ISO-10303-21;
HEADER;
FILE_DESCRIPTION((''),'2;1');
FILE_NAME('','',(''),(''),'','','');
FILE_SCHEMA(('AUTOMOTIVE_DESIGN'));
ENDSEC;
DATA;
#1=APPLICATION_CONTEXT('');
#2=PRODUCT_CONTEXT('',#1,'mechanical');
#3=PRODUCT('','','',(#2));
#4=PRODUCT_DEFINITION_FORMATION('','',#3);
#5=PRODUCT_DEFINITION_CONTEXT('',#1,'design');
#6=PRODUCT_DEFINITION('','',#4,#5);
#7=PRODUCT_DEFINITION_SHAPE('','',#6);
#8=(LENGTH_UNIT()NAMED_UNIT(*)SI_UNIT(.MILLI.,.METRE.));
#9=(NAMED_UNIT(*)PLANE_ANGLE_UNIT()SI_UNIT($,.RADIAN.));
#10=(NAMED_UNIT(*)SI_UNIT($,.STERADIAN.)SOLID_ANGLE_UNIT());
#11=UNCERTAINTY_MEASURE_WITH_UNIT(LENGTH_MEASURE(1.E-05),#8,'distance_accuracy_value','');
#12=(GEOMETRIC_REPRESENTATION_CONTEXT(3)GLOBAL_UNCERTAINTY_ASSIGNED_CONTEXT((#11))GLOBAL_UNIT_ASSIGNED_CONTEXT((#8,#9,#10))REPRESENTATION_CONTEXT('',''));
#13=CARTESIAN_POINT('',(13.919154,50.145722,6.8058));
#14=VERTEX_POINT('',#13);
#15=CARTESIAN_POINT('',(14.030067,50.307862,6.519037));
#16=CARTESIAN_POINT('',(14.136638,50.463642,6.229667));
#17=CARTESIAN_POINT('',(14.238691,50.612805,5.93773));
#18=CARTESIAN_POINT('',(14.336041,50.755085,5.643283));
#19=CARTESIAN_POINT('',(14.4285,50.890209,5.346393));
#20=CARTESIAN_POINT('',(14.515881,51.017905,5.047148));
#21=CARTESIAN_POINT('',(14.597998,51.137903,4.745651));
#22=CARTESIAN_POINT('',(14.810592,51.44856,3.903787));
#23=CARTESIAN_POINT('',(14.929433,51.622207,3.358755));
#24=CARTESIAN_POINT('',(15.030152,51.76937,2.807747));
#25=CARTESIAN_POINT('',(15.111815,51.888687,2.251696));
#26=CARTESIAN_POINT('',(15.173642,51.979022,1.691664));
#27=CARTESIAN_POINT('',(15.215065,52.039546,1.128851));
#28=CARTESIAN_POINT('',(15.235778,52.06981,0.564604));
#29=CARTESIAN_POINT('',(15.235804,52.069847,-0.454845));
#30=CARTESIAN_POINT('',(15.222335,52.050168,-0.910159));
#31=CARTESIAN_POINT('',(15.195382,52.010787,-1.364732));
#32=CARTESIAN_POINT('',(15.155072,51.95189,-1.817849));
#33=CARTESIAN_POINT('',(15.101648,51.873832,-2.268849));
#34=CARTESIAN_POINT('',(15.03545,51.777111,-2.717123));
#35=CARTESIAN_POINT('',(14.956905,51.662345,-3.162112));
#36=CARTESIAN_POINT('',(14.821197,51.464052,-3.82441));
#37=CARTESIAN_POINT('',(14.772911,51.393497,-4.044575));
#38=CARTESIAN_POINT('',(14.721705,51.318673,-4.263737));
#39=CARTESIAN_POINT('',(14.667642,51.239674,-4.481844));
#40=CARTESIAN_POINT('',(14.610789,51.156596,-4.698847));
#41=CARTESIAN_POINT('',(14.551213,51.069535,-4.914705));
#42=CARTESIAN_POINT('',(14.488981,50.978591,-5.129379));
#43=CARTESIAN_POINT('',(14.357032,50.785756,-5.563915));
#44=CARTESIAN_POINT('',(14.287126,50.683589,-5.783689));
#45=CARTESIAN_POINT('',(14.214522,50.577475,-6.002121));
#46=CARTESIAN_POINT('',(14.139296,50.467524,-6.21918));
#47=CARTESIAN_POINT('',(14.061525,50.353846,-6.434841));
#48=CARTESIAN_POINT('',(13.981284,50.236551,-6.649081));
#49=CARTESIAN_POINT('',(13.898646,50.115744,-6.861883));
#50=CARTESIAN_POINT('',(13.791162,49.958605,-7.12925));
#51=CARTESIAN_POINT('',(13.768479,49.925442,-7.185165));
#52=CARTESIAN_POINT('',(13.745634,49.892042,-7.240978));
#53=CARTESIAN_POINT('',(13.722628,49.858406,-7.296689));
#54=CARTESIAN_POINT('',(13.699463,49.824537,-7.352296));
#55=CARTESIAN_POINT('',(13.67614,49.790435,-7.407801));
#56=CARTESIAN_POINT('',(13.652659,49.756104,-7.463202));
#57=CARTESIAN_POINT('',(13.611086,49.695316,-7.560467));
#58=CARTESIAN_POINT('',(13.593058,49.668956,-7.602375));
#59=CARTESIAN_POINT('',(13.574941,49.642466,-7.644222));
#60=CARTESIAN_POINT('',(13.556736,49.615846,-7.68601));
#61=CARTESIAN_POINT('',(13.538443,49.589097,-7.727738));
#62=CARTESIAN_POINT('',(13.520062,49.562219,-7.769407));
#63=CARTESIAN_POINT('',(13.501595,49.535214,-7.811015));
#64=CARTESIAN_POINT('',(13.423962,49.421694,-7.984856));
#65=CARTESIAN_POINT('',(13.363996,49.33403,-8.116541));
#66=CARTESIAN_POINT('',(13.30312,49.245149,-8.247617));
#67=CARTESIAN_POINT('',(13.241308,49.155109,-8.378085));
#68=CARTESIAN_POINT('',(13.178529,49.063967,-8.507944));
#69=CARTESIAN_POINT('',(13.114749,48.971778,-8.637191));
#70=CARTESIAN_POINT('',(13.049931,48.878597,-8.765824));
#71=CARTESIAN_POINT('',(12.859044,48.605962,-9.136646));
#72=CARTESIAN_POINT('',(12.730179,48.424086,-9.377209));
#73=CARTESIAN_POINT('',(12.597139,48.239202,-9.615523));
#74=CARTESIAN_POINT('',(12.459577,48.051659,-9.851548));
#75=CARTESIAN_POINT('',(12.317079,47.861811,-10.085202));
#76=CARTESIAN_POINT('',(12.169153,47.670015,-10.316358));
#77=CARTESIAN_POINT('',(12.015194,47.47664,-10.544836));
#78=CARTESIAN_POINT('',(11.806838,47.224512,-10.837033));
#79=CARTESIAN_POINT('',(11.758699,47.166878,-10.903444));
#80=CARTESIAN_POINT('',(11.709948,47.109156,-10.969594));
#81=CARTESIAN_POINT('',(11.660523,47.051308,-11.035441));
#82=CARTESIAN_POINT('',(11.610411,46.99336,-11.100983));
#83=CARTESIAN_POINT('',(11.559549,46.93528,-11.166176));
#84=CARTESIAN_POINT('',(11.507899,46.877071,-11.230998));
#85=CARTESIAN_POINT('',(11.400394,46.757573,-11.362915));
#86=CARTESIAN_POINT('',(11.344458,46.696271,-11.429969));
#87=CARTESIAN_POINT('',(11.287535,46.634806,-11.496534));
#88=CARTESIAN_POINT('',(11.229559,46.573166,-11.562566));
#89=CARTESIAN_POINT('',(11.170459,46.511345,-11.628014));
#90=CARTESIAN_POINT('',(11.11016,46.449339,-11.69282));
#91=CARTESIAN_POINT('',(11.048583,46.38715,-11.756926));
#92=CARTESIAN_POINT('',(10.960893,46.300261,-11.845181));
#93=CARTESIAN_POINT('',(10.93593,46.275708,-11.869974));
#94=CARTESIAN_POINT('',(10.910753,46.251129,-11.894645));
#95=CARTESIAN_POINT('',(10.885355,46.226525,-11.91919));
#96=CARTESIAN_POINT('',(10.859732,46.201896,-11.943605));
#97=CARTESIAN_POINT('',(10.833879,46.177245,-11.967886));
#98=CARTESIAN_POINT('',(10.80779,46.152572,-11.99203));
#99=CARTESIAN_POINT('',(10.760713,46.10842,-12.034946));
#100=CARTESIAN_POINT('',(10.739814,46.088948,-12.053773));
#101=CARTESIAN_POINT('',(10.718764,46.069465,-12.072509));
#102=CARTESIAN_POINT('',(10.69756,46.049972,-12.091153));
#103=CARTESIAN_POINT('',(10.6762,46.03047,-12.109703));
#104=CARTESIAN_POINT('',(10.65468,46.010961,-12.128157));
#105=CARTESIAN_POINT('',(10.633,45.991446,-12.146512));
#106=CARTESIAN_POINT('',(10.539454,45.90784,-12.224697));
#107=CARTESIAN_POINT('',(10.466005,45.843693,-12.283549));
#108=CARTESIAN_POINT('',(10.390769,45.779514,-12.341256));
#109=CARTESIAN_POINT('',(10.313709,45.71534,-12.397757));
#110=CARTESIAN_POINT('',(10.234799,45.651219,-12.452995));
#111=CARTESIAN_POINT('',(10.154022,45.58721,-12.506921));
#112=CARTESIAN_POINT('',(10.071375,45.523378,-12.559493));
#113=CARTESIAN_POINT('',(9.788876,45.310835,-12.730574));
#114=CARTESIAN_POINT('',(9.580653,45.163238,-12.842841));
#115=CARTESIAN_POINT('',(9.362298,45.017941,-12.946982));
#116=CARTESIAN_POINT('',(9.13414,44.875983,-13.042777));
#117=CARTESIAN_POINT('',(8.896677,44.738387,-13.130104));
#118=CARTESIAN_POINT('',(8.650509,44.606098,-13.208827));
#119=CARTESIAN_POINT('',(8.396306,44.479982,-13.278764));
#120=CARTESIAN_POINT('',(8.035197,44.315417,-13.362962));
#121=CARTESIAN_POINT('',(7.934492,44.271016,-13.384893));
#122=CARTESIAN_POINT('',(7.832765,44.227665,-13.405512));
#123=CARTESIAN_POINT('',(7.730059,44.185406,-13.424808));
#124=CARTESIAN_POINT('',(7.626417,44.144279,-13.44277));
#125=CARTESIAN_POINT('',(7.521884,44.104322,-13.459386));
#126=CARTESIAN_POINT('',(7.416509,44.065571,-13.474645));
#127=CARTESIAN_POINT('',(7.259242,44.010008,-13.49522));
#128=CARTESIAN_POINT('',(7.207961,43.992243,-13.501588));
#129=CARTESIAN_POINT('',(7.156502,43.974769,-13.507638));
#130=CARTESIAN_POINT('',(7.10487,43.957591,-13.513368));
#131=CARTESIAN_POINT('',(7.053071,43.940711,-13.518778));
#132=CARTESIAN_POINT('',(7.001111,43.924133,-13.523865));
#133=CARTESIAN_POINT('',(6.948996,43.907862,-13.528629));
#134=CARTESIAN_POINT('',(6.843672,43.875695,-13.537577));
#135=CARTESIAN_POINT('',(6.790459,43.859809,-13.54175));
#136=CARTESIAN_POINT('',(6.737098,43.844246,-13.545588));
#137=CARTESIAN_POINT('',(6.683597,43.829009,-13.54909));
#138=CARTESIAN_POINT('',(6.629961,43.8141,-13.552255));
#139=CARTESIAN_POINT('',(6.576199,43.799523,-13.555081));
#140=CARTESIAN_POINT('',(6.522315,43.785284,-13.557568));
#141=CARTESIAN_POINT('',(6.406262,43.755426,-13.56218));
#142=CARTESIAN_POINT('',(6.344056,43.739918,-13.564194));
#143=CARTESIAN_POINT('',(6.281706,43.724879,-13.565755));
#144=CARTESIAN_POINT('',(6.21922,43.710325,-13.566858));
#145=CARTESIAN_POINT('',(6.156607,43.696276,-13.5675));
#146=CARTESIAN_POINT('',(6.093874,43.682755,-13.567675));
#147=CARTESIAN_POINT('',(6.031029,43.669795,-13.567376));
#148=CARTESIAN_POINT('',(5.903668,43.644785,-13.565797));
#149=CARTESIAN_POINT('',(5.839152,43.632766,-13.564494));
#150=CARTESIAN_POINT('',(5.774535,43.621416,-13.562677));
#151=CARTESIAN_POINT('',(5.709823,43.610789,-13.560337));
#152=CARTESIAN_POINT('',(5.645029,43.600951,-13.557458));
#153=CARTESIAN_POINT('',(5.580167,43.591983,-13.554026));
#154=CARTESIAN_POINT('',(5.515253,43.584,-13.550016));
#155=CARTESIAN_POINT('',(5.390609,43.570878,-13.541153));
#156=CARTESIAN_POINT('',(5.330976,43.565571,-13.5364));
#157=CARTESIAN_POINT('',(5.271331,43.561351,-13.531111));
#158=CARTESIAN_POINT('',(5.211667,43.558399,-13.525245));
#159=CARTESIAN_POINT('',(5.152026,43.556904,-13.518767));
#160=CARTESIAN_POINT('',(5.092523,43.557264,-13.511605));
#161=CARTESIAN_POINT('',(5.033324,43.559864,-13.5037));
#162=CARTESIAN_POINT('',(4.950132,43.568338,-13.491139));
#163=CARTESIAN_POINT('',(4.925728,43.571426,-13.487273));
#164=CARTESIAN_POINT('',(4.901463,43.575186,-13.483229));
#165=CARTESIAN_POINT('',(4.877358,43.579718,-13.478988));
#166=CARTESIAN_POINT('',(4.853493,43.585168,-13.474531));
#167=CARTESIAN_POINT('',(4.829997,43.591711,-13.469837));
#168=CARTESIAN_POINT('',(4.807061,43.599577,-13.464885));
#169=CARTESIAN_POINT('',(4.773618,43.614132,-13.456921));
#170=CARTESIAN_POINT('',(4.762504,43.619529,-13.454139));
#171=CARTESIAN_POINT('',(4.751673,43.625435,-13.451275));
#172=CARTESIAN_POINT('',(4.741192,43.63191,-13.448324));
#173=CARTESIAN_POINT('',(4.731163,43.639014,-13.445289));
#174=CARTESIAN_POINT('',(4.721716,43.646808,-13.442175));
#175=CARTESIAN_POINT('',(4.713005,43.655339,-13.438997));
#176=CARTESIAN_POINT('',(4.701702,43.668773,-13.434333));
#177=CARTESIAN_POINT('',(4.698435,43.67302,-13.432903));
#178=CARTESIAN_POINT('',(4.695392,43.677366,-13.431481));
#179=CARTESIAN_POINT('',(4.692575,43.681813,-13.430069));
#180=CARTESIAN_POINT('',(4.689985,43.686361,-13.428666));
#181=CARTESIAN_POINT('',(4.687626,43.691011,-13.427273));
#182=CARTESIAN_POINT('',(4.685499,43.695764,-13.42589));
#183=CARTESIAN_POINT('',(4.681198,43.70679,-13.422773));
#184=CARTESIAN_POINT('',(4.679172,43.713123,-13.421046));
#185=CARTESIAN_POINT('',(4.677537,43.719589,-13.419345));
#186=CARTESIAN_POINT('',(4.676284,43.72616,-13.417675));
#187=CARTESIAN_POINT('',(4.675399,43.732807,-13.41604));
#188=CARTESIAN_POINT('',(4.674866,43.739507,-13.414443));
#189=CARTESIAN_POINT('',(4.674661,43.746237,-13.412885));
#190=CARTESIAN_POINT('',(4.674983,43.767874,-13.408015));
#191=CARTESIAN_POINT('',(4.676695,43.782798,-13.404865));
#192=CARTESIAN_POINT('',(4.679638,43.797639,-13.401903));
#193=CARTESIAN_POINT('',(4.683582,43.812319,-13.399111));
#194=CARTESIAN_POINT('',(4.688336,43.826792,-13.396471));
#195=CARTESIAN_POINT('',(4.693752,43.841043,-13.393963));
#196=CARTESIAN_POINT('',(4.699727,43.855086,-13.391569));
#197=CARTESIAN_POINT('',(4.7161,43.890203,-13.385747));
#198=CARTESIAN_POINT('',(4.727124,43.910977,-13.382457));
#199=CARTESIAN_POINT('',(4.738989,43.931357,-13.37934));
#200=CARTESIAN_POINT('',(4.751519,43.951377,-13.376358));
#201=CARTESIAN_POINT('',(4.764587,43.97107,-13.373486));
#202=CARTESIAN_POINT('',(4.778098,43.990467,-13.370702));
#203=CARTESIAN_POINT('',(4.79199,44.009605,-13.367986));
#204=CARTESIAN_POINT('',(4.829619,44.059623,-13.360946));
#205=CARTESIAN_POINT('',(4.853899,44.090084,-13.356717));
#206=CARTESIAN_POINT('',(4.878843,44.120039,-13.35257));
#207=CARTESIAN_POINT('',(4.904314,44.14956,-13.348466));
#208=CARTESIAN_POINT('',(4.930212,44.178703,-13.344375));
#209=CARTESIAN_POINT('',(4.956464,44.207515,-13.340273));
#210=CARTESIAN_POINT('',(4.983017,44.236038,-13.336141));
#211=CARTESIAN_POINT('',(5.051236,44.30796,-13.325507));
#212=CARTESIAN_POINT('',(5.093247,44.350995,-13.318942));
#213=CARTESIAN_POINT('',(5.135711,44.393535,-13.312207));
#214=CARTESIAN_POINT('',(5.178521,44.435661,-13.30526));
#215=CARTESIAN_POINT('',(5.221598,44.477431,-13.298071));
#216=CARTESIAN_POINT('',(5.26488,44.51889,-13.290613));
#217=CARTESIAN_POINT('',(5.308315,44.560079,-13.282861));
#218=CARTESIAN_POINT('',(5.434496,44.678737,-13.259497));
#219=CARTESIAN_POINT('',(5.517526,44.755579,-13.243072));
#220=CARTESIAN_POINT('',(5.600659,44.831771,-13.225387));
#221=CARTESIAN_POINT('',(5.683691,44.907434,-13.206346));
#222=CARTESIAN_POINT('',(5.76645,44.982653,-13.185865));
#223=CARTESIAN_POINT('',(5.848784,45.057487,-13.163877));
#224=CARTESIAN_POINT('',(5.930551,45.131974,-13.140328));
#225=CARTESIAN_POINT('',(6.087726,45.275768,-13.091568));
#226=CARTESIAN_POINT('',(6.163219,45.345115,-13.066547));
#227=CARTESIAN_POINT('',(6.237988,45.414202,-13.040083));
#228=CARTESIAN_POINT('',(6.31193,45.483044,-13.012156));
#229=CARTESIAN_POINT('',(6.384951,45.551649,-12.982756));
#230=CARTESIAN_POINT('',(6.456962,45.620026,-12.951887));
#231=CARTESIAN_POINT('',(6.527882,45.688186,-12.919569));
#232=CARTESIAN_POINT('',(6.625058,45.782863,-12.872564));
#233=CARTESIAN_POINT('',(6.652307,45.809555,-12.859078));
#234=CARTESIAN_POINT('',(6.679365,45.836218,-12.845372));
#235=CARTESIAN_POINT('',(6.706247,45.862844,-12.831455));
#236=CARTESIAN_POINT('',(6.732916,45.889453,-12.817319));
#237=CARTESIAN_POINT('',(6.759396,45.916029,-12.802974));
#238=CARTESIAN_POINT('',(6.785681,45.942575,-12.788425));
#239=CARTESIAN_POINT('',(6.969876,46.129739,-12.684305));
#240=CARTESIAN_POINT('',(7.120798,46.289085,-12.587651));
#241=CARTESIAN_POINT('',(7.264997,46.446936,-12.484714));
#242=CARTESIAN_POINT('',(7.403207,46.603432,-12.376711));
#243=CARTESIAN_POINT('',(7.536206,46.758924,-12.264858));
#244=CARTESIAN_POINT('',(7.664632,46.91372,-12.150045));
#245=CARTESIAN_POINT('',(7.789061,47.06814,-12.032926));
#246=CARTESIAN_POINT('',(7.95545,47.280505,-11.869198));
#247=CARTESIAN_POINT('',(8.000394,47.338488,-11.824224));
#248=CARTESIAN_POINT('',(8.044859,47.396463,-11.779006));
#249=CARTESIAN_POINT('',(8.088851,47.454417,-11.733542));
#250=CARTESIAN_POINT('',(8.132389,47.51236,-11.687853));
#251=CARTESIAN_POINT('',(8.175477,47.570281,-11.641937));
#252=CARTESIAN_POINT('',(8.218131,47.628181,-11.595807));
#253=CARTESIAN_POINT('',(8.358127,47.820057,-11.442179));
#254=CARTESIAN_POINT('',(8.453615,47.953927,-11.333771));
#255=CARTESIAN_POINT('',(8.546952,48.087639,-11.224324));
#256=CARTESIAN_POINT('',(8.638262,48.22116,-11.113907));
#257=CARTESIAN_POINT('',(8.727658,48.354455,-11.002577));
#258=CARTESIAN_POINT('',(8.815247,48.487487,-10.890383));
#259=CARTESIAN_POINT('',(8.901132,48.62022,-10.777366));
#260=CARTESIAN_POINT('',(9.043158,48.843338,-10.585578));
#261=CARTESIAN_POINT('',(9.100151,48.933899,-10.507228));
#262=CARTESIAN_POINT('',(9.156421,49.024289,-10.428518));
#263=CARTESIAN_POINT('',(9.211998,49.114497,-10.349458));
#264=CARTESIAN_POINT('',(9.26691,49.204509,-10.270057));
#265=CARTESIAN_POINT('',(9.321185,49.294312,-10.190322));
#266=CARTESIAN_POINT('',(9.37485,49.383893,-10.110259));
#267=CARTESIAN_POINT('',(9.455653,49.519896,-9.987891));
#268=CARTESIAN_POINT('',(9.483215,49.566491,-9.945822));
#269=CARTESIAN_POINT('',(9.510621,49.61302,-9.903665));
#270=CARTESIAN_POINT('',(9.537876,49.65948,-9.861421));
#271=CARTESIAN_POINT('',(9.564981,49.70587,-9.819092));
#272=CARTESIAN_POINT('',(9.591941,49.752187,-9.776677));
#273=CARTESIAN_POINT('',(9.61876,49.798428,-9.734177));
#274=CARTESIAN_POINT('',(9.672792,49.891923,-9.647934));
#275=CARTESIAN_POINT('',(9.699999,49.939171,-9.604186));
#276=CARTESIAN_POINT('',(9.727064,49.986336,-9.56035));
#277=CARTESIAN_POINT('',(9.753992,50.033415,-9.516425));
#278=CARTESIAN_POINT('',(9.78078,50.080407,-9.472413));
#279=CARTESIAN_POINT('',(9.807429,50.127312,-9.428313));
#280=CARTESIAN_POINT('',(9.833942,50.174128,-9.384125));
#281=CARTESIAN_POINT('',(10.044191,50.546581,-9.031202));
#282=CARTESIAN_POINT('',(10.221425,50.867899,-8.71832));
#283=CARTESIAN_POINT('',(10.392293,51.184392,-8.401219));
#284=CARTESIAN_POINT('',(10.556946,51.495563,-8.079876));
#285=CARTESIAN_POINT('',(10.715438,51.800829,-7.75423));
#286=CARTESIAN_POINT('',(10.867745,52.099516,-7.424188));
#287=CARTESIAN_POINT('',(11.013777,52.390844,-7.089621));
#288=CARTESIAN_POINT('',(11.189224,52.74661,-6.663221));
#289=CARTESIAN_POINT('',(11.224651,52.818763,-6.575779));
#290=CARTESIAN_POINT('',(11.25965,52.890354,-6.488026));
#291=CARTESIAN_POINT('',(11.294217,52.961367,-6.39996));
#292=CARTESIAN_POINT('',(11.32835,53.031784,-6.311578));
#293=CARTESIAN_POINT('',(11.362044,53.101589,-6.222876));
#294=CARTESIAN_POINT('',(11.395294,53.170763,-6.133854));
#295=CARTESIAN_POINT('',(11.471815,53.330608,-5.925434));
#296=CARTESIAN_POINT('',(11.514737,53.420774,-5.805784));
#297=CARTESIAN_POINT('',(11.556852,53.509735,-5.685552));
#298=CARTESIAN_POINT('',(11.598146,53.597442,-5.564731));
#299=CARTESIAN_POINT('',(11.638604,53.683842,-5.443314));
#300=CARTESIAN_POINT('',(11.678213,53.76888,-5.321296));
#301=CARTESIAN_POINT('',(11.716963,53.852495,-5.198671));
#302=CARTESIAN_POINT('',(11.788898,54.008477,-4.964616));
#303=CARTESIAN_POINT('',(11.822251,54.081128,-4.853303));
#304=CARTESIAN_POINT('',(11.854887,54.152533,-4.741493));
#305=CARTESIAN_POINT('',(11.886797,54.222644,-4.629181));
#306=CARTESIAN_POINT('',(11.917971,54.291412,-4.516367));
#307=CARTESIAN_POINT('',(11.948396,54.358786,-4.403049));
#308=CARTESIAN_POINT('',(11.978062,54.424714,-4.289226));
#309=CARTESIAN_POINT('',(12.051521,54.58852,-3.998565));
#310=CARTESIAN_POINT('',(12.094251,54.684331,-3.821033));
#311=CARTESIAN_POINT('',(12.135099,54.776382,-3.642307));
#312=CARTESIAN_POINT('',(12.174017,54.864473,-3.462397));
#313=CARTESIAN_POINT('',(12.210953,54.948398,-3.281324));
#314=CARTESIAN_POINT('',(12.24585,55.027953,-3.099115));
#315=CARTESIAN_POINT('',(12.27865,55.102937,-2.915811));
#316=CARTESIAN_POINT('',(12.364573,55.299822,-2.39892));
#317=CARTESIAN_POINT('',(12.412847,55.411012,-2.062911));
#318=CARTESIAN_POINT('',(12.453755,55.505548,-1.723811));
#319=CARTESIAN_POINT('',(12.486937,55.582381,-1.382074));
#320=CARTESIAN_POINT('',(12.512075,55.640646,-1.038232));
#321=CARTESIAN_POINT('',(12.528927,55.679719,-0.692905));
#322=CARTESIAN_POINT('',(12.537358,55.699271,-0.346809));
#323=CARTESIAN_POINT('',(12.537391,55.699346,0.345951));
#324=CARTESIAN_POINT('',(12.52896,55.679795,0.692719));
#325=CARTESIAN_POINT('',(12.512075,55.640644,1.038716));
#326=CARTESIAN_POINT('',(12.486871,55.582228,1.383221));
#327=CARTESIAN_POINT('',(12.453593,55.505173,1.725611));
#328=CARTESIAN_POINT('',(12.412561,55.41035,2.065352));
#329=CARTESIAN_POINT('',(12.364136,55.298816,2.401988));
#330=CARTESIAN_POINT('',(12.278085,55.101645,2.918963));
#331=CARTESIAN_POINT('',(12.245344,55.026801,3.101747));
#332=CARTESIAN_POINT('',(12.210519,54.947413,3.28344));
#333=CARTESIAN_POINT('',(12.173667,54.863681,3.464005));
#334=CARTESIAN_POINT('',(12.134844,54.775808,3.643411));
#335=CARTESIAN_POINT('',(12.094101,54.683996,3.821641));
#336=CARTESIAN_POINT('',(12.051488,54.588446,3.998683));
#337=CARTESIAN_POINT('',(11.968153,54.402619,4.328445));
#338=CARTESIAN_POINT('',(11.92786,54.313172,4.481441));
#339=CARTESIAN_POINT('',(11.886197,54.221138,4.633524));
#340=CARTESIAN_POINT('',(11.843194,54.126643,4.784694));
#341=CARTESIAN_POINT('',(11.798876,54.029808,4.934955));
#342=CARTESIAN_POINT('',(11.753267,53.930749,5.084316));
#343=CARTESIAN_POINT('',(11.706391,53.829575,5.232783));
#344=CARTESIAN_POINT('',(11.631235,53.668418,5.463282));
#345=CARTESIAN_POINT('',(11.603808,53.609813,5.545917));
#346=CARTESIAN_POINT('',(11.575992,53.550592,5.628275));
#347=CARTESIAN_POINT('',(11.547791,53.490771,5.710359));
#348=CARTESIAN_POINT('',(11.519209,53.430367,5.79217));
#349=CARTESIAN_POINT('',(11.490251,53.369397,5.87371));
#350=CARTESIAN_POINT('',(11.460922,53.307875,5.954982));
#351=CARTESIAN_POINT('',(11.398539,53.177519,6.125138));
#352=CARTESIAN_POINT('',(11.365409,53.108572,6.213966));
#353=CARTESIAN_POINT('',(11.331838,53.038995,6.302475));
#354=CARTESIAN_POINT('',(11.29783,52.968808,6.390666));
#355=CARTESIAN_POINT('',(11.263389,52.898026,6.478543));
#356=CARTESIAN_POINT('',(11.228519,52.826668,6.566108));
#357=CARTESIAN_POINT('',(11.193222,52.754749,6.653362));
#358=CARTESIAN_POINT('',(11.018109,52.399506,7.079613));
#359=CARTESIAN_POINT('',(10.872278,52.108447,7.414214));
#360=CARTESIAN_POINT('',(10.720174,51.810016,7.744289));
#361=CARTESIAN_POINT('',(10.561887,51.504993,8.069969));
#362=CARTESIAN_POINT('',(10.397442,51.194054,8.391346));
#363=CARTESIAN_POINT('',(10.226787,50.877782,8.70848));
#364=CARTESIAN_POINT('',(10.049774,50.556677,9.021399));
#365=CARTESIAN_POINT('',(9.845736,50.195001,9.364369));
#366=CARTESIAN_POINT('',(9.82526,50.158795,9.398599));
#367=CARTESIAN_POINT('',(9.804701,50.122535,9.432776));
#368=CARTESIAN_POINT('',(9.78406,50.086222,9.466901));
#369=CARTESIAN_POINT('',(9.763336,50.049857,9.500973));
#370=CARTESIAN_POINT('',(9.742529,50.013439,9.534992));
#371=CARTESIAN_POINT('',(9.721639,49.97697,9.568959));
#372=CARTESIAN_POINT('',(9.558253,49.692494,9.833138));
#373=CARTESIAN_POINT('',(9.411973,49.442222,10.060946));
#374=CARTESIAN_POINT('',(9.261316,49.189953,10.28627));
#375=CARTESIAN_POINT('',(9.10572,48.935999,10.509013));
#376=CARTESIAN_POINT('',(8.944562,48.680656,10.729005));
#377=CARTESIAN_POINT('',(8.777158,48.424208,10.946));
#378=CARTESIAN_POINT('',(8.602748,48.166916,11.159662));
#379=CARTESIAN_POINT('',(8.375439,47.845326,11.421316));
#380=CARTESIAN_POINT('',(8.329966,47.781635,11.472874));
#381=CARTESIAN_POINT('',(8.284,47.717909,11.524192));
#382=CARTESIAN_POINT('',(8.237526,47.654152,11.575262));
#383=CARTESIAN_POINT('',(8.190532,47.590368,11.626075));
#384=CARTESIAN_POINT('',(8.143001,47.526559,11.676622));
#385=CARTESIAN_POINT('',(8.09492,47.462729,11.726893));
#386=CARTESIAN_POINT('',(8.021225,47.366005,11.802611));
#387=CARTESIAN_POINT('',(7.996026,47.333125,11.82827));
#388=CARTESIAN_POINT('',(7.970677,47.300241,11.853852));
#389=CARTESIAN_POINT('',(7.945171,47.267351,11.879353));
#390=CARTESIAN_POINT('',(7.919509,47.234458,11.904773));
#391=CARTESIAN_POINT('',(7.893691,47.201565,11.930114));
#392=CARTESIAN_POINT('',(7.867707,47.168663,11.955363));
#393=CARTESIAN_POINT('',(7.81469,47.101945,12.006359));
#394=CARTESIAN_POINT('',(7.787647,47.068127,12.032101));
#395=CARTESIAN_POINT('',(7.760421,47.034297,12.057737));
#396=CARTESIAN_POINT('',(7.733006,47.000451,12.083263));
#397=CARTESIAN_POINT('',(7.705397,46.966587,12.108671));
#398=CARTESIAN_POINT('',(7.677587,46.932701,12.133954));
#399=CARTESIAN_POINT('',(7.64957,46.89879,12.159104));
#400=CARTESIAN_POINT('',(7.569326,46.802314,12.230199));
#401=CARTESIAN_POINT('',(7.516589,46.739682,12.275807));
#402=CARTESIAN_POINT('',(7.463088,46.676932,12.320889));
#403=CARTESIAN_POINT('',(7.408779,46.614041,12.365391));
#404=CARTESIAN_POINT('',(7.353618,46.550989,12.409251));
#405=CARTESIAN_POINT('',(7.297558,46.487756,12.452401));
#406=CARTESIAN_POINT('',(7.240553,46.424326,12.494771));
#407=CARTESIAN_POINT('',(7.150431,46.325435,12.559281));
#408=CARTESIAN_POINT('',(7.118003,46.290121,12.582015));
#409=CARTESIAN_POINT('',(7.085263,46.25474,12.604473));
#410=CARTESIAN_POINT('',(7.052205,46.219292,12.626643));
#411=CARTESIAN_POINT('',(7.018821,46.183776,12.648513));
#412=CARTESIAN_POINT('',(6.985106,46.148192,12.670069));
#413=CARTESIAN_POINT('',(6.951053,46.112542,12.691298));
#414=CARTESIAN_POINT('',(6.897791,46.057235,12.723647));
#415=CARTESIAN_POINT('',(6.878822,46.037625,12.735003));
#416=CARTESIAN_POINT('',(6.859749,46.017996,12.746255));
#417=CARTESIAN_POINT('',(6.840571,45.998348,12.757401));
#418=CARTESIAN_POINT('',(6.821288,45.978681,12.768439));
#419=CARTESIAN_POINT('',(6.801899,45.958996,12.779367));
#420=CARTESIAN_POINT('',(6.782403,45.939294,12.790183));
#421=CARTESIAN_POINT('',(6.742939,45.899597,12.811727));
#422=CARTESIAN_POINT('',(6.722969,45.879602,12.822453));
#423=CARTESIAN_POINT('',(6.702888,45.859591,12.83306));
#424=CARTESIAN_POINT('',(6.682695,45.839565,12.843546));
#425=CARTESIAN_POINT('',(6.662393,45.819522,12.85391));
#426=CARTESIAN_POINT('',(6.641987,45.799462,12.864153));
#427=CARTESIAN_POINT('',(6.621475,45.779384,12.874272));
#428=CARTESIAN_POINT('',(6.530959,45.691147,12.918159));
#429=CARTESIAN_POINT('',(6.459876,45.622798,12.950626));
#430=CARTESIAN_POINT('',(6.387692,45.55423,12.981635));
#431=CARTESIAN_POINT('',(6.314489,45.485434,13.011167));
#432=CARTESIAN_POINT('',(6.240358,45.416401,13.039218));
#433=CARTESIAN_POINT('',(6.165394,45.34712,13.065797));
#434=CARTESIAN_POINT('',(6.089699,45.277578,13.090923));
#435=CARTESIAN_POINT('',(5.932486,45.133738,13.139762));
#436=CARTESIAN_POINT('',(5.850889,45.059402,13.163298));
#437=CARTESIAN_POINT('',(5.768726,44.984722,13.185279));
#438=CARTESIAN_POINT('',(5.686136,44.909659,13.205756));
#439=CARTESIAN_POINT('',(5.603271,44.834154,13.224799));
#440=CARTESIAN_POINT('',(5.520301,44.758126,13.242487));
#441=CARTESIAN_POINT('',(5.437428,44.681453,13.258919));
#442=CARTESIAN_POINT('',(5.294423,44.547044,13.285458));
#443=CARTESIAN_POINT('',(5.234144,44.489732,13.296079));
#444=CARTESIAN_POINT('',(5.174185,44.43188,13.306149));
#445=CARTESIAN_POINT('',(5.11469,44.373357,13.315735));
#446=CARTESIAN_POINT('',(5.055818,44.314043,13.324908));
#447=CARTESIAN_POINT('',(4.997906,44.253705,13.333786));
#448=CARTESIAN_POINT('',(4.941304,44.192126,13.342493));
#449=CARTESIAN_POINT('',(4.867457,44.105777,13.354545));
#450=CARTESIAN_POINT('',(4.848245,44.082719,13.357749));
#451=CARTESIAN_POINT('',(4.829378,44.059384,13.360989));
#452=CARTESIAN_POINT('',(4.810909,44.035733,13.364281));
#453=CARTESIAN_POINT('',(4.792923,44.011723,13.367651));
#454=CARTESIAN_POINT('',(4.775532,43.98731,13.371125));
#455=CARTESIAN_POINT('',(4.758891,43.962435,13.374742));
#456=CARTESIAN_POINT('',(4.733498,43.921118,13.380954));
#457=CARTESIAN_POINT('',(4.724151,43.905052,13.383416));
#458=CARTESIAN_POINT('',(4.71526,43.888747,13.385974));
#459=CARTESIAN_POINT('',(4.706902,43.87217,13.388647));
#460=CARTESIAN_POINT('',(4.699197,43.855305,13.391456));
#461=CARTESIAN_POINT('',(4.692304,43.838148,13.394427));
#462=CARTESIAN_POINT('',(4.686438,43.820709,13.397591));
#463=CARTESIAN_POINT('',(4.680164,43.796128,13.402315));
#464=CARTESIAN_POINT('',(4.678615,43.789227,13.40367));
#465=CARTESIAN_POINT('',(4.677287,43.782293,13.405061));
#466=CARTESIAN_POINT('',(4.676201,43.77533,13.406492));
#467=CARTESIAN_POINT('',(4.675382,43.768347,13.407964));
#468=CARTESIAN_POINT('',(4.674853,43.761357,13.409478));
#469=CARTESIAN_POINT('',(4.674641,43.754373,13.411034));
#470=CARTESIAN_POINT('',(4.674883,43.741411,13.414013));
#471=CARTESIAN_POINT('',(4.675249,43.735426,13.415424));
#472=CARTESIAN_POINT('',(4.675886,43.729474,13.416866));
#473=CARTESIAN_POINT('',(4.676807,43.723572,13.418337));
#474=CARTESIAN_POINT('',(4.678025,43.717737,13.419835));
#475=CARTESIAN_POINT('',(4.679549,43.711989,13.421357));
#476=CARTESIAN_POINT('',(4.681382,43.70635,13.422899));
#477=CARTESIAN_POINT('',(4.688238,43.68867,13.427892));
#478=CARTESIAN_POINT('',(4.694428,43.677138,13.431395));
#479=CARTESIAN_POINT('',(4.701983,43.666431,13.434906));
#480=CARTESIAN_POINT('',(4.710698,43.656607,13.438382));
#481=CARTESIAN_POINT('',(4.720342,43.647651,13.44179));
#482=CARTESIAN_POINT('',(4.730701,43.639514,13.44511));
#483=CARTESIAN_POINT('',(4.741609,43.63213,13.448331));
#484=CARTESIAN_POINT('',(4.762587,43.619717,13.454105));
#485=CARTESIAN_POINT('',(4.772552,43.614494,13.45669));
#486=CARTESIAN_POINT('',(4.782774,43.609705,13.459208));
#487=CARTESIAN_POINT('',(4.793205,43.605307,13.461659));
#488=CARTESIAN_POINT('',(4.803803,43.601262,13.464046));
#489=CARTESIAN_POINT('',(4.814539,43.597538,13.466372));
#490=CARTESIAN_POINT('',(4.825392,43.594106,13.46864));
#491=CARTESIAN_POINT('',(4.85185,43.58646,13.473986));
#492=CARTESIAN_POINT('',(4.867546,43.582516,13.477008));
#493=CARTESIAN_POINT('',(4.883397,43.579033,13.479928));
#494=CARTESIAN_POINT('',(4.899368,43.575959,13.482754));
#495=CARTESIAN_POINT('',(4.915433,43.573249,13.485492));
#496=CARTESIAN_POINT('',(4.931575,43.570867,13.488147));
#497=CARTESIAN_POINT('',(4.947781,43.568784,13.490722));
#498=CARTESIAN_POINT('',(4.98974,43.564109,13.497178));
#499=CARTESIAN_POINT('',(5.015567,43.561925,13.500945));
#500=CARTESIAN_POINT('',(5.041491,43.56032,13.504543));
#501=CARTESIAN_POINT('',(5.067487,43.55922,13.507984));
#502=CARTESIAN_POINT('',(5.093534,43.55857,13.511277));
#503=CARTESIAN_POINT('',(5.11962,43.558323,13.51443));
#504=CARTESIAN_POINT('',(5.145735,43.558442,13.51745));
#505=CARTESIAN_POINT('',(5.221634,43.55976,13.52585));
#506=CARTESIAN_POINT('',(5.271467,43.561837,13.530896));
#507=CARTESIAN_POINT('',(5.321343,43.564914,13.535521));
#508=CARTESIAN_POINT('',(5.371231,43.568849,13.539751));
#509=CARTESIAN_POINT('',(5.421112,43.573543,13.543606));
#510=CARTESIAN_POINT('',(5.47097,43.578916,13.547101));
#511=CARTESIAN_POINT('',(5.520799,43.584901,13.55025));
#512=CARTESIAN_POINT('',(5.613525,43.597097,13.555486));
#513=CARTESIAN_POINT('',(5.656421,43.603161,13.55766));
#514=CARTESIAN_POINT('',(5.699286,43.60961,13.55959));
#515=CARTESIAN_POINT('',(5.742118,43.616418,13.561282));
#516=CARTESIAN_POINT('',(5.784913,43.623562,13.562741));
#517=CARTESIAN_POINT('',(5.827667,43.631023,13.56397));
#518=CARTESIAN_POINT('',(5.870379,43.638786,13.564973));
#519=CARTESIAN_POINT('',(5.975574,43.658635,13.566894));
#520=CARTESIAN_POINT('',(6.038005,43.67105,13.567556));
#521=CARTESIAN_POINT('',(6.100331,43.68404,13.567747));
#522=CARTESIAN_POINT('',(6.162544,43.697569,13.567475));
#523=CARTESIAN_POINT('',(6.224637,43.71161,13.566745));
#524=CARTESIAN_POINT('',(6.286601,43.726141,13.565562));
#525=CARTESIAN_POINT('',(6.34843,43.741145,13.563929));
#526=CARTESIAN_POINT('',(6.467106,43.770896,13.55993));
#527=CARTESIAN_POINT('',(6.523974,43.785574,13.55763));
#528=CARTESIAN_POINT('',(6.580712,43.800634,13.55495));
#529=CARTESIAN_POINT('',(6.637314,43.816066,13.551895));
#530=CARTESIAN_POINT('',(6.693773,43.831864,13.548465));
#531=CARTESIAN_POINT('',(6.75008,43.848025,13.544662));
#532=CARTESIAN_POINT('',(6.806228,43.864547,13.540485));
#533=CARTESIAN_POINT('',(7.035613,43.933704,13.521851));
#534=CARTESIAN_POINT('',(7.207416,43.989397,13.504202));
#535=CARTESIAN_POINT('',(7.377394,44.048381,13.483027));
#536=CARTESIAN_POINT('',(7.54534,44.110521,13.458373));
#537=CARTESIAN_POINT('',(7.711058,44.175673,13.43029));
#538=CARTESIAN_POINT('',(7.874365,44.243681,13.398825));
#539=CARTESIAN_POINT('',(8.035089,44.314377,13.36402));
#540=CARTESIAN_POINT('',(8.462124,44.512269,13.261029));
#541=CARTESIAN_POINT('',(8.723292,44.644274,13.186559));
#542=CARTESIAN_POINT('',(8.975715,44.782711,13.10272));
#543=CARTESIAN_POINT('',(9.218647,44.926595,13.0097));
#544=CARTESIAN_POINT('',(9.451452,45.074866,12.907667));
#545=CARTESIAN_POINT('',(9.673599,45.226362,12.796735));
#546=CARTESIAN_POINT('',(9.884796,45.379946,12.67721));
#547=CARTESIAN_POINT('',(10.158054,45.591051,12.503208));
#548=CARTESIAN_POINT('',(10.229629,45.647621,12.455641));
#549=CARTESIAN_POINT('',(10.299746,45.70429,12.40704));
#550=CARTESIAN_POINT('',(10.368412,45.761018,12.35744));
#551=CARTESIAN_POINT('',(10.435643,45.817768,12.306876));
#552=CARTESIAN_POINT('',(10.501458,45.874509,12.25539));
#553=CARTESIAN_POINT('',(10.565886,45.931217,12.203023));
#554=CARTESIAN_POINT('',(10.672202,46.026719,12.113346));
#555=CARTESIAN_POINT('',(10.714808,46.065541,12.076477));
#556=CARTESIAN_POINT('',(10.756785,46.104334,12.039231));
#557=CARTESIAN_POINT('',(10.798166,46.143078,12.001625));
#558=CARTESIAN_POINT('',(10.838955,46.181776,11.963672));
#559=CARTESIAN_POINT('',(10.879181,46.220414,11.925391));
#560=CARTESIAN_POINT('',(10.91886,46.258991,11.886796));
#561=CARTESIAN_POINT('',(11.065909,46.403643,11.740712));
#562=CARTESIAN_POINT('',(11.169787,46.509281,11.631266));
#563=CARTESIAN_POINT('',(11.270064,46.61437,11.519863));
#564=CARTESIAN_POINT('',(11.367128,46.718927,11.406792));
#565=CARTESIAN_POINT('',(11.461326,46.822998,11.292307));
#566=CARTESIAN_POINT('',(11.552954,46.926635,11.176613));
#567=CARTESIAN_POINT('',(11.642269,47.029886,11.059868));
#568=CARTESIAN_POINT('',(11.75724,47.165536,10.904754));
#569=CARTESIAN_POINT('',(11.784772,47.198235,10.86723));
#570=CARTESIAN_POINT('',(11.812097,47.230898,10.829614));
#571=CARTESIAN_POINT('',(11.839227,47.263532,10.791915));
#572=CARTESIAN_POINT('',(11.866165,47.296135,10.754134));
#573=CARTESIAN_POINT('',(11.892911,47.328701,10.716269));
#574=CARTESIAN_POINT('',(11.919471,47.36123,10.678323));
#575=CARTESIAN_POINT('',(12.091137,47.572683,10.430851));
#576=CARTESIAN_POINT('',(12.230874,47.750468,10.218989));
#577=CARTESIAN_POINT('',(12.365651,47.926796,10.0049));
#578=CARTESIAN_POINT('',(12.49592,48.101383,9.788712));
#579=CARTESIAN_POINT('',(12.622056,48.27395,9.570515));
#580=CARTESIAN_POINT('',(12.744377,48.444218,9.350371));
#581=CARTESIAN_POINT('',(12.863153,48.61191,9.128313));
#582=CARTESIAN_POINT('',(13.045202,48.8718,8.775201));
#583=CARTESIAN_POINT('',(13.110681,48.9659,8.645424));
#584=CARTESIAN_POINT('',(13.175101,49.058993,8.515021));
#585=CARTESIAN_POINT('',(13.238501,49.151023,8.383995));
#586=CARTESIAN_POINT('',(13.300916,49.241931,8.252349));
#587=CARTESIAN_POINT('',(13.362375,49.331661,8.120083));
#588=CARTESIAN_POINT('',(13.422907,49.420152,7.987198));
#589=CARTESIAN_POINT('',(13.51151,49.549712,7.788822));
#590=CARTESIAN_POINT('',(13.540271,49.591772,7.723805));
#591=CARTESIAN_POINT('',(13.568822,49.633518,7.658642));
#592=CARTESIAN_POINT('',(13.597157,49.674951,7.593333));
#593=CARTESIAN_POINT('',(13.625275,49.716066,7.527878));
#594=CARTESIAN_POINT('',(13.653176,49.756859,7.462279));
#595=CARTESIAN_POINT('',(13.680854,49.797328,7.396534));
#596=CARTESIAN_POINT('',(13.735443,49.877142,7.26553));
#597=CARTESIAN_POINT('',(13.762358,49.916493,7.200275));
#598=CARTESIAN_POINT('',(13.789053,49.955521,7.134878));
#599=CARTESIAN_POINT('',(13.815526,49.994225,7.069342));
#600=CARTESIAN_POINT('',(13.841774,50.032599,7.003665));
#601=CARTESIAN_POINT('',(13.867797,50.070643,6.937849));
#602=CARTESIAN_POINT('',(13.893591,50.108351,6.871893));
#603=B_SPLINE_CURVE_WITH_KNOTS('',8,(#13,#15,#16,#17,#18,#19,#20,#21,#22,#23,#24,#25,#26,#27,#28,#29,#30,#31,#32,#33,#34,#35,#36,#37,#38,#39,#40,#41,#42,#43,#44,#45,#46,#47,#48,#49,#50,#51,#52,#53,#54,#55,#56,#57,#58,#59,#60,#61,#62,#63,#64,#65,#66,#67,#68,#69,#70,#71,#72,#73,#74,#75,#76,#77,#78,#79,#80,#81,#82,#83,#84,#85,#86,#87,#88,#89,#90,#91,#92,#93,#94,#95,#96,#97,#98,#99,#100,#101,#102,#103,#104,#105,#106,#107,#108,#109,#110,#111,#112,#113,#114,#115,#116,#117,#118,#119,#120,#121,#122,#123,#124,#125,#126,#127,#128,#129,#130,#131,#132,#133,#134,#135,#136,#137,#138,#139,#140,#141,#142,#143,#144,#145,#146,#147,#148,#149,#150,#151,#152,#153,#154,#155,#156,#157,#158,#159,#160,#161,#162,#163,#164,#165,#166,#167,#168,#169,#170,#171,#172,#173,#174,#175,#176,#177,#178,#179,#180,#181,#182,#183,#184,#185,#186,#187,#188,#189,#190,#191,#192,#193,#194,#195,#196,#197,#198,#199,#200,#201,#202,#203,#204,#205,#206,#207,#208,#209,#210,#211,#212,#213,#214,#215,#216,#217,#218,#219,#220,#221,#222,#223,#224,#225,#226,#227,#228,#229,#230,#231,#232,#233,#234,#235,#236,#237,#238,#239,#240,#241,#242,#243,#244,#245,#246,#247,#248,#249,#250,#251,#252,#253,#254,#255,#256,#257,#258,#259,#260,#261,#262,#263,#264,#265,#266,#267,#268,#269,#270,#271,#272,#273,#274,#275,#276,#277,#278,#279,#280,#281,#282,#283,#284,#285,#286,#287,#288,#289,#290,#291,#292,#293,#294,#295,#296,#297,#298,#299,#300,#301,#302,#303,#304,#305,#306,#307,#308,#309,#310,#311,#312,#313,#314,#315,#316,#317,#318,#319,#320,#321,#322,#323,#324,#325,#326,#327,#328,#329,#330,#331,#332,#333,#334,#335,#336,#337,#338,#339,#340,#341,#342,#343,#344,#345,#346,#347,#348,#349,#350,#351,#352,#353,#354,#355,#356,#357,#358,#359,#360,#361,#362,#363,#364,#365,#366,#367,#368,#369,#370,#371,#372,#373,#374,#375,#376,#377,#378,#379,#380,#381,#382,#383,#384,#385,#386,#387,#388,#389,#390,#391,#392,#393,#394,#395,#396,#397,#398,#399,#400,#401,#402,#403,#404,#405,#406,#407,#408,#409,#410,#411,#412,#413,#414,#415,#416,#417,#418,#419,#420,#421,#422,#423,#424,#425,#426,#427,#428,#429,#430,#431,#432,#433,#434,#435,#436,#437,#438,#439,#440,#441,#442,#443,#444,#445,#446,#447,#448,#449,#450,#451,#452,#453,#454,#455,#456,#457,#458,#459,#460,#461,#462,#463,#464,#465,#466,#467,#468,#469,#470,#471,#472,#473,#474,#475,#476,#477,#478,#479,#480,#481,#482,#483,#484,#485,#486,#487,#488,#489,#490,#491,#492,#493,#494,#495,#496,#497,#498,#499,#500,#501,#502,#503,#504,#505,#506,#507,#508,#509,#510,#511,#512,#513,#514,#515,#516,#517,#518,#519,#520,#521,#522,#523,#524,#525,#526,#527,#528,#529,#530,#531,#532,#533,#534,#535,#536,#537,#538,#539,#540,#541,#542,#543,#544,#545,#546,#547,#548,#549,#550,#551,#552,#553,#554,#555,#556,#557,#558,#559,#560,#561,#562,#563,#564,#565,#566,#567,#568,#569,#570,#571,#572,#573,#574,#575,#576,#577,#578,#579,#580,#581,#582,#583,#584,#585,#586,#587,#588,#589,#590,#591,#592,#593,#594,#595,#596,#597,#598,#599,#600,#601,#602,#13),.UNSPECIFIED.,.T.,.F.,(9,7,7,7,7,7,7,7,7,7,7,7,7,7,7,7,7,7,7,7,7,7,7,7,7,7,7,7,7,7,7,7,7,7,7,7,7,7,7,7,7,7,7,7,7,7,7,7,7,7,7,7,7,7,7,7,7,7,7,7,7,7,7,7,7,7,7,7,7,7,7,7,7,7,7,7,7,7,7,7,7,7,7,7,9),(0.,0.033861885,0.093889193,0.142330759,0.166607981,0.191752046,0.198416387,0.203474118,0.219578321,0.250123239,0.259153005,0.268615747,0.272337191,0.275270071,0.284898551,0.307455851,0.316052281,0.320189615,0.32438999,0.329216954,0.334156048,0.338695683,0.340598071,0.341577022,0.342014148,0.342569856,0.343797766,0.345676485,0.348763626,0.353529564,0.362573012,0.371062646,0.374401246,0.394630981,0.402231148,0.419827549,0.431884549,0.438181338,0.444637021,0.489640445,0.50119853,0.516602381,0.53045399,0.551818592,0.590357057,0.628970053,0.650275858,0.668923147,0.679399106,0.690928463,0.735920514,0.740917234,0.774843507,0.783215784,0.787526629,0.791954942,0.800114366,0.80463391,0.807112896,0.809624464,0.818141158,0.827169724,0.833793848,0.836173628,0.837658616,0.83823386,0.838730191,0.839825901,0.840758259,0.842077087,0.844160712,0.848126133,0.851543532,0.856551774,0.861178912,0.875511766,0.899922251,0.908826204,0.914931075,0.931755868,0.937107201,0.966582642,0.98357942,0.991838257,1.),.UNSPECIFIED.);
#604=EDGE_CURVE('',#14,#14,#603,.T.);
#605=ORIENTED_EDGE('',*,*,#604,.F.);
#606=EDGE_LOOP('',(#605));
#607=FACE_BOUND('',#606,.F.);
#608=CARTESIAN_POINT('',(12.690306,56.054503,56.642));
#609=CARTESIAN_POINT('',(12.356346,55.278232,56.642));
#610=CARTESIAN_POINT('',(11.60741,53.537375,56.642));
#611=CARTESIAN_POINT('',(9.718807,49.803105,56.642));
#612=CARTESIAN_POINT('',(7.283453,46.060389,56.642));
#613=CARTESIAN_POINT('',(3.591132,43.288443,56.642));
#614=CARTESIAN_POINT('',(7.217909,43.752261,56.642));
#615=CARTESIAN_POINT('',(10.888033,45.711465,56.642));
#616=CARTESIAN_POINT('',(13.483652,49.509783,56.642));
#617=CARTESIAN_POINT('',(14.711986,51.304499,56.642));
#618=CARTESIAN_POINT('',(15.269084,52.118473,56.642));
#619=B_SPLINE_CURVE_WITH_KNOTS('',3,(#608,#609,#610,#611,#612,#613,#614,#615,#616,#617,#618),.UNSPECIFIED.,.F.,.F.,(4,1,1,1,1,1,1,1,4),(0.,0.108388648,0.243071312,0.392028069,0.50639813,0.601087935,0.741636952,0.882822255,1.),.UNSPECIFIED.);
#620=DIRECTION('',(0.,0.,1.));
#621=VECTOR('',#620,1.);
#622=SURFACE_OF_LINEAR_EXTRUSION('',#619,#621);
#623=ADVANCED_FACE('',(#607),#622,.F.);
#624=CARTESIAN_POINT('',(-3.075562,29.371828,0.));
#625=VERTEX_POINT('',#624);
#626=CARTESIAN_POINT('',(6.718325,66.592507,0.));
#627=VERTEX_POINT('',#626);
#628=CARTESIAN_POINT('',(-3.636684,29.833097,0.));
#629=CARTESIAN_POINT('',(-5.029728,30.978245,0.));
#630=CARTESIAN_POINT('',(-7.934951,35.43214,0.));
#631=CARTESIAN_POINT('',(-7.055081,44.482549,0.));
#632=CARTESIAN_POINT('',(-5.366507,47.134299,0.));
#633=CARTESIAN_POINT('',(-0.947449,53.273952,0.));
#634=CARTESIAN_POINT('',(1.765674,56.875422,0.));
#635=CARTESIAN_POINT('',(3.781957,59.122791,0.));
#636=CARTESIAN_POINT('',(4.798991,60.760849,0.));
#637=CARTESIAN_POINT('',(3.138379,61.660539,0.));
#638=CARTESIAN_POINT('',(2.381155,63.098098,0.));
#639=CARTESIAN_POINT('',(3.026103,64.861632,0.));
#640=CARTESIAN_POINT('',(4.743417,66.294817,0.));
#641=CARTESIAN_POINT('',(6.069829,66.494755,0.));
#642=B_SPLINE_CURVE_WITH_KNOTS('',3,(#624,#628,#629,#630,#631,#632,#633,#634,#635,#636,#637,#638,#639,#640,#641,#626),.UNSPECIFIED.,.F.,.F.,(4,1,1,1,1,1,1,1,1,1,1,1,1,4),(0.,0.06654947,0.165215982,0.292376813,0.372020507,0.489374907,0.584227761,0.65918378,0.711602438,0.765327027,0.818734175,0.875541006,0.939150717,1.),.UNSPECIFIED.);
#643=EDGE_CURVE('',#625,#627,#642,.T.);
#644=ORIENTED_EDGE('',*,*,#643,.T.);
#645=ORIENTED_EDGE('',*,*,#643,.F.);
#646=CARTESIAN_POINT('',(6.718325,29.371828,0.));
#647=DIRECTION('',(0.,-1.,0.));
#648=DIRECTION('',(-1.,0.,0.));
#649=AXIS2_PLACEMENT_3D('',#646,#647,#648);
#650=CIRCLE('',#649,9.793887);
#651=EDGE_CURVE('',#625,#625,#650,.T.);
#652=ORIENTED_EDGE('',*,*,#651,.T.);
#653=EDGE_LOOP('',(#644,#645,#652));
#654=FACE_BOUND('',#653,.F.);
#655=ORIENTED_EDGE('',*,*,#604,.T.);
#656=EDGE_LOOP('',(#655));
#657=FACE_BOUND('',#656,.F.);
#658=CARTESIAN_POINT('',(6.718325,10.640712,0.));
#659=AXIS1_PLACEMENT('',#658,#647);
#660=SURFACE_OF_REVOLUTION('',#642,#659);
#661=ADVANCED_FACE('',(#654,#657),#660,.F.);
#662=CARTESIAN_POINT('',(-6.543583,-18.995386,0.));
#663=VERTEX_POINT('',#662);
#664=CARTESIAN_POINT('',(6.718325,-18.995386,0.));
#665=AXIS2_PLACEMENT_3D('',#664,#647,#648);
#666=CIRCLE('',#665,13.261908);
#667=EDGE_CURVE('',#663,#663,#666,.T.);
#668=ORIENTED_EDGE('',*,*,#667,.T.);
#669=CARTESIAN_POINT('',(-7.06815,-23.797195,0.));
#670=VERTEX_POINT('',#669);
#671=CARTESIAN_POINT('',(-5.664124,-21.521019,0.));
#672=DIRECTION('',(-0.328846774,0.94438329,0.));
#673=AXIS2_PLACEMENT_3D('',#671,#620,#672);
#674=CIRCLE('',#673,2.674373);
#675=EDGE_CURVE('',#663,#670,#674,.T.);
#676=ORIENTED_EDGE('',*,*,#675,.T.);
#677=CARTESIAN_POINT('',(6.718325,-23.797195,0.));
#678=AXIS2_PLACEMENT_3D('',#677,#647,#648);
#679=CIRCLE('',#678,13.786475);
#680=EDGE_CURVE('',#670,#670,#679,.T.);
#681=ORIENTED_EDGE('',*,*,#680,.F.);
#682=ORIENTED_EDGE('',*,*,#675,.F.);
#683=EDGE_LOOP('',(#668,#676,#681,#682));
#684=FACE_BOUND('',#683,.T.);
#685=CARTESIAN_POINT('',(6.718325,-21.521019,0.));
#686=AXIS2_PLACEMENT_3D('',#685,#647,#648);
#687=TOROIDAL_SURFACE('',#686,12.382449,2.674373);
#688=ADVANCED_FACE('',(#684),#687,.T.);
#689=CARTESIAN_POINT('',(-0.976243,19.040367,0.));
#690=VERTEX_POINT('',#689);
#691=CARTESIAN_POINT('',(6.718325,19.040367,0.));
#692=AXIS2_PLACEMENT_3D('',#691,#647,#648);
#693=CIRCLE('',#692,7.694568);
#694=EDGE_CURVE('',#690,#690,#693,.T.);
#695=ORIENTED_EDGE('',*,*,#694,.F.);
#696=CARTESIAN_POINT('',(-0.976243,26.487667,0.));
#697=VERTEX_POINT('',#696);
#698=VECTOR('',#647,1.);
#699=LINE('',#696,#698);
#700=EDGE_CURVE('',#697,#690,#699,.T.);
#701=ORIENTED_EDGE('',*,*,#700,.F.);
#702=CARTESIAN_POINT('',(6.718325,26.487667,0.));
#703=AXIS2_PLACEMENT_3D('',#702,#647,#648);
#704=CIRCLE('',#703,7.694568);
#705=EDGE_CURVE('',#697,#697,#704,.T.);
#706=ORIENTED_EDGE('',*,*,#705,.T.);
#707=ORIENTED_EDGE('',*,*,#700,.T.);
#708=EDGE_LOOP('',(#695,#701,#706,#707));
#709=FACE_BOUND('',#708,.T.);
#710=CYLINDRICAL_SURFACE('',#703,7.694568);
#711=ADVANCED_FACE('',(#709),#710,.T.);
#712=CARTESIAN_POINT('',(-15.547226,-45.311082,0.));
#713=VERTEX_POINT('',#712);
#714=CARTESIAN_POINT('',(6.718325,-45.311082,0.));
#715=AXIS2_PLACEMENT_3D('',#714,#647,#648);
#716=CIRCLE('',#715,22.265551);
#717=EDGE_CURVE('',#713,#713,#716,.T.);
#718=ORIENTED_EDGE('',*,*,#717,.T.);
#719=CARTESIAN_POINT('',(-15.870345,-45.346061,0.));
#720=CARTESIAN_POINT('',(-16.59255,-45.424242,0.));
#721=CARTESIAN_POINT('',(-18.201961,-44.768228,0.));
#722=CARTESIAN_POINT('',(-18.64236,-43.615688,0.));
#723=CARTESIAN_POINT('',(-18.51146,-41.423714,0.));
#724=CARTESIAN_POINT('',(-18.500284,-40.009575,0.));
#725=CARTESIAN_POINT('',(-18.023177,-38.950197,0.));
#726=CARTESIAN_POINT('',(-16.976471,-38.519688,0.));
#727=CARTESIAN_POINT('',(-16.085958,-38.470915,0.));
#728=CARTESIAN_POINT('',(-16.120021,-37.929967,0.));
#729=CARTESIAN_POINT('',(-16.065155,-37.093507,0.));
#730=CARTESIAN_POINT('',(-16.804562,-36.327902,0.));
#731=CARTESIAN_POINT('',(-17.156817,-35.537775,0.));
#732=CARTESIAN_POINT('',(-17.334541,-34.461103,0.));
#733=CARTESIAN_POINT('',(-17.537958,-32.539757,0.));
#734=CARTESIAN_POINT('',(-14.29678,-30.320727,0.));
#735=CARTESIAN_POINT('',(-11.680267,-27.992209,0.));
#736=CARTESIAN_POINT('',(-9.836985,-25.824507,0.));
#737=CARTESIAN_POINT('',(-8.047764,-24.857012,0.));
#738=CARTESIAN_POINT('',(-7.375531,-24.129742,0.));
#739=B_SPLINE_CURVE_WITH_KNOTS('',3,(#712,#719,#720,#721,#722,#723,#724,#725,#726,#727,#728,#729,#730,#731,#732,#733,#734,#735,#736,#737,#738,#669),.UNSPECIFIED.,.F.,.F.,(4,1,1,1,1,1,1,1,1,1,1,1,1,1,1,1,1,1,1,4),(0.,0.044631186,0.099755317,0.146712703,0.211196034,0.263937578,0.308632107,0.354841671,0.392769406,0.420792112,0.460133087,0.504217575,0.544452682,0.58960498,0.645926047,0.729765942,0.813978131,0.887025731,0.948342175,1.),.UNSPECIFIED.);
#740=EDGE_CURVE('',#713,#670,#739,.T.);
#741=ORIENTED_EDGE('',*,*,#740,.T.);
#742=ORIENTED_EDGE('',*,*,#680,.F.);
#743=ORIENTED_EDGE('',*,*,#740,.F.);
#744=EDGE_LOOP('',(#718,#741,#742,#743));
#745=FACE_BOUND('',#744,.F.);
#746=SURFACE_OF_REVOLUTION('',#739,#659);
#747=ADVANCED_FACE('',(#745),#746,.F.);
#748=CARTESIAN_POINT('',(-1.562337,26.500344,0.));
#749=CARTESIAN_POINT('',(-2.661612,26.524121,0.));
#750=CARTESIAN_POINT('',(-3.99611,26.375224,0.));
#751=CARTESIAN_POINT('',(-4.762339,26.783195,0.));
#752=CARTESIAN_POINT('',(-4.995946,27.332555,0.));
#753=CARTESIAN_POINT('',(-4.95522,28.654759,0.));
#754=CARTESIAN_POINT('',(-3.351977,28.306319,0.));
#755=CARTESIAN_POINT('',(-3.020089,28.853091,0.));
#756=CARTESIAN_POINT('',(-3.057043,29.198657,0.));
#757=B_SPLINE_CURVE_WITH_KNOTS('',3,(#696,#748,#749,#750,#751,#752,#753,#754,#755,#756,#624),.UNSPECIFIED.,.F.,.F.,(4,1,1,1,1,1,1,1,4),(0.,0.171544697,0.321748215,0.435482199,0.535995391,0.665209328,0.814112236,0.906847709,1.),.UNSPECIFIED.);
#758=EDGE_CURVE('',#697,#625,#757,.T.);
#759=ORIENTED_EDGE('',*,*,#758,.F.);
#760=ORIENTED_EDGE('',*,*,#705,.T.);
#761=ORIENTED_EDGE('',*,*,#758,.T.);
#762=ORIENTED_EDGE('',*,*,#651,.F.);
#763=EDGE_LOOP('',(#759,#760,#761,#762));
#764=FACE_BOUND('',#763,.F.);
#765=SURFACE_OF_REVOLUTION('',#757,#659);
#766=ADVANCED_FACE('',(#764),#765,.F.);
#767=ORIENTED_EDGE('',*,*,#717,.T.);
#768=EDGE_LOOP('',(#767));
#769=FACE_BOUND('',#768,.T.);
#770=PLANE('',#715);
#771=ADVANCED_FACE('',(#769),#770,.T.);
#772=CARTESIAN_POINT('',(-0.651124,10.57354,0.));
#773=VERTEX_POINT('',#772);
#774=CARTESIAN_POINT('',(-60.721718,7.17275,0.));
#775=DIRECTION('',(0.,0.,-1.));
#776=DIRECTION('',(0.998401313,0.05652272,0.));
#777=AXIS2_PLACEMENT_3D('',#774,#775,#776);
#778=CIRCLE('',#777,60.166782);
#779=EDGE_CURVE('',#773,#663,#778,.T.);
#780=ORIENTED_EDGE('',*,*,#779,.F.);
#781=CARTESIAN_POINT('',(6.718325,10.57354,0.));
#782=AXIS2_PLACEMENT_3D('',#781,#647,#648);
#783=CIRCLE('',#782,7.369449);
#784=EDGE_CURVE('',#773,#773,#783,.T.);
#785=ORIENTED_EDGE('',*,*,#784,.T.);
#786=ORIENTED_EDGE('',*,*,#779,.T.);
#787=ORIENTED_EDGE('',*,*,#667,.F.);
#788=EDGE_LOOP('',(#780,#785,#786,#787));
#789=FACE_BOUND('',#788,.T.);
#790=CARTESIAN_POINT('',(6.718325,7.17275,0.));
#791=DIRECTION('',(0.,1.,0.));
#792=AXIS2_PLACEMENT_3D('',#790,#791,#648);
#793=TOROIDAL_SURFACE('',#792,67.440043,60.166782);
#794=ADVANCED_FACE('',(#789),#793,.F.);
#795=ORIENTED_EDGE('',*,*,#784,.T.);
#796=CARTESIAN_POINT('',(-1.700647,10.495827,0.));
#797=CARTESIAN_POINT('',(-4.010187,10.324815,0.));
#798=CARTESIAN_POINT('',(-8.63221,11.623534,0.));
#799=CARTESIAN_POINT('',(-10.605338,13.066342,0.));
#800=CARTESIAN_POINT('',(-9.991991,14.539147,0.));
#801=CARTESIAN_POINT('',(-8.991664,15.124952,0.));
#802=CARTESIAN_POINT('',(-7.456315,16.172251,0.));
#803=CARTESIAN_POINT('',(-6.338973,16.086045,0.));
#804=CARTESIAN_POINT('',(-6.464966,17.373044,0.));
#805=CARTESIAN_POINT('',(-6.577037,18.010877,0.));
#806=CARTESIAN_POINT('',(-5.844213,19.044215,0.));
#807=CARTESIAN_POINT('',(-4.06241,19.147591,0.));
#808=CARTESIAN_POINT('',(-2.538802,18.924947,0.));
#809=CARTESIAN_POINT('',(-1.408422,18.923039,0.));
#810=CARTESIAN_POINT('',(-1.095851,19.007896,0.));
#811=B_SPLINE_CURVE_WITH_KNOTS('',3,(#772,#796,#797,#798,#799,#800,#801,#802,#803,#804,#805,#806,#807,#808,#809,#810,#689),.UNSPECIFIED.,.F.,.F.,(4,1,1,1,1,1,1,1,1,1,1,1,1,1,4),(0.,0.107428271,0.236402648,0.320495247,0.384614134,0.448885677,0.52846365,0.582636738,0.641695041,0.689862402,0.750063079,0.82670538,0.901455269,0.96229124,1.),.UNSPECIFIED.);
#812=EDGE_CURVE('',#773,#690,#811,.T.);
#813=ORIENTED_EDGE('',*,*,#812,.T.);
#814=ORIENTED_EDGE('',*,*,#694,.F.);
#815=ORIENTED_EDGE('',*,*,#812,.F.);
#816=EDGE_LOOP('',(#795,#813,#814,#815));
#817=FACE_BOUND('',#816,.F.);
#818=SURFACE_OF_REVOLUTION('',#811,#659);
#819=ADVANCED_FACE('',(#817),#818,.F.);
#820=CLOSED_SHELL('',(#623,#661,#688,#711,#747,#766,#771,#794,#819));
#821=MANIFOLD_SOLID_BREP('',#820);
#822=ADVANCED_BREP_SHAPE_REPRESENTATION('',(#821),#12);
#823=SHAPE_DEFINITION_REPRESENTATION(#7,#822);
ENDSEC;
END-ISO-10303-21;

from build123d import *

# Parameters (mm, degrees)
F4_DEPTH = 99.568


with BuildPart() as f1:
    # F0 (on Top) → F1 (revolve)
    with BuildSketch(Plane.XY):
        with BuildLine():
            Line((6.718324963, -45.3110821545), (6.718324963, 66.5925070643))
            add(Edge.make_bspline(
                [(-3.075561719, 29.3718278408), (-3.6366837564, 29.8330968928), (-5.0297275857, 30.9782452986), (-7.9349505475, 35.4321404968), (-7.055081121, 44.4825491674), (-5.3665072757, 47.1342989395), (-0.9474489311, 53.2739522243), (1.765674232, 56.8754221882), (3.7819566734, 59.1227906342), (4.798990968, 60.760848812), (3.1383792832, 61.6605394175), (2.3811546811, 63.0980982756), (3.0261030487, 64.8616324037), (4.7434168455, 66.2948172598), (6.0698285983, 66.4947552984), (6.718324963, 66.5925070643)],
                knots=[0, 0, 0, 0, 0.06654947, 0.1652159821, 0.2923768135, 0.372020507, 0.4893749074, 0.5842277611, 0.6591837801, 0.7116024383, 0.7653270268, 0.8187341748, 0.8755410065, 0.9391507165, 1, 1, 1, 1], degree=3))
            add(Edge.make_bspline(
                [(-0.976243231, 26.4876671135), (-1.5623373909, 26.5003440459), (-2.6616121177, 26.5241208249), (-3.9961101149, 26.3752236914), (-4.7623386395, 26.7831954999), (-4.995946144, 27.3325552262), (-4.9552196279, 28.6547594795), (-3.3519771165, 28.3063191279), (-3.0200885426, 28.8530912868), (-3.0570430391, 29.1986573678), (-3.075561719, 29.3718278408)],
                knots=[0, 0, 0, 0, 0.171544697, 0.3217482153, 0.435482199, 0.5359953915, 0.6652093282, 0.8141122361, 0.9068477094, 1, 1, 1, 1], degree=3))
            Line((-0.976243231, 26.4876671135), (-0.976243231, 19.0403666347))
            add(Edge.make_bspline(
                [(-0.6511239335, 10.5735398829), (-1.70064651, 10.4958269634), (-4.0101867748, 10.3248148092), (-8.6322104203, 11.623533718), (-10.6053378229, 13.0663422849), (-9.9919905144, 14.5391466838), (-8.9916642837, 15.1249520152), (-7.4563152442, 16.1722506056), (-6.3389726532, 16.0860453996), (-6.464965844, 17.3730436779), (-6.5770365539, 18.0108769238), (-5.8442132246, 19.0442146152), (-4.0624098697, 19.1475912198), (-2.5388016575, 18.924947251), (-1.4084215712, 18.9230392284), (-1.095850509, 19.0078957531), (-0.976243231, 19.0403666347)],
                knots=[0, 0, 0, 0, 0.1074282706, 0.2364026484, 0.3204952469, 0.3846141337, 0.4488856773, 0.5284636499, 0.5826367382, 0.6416950405, 0.6898624016, 0.7500630794, 0.82670538, 0.9014552689, 0.9622912404, 1, 1, 1, 1], degree=3))
            ThreePointArc((-0.6511239335, 10.5735398829), (-1.7151643364, -4.5860031621), (-6.543582771, -18.995385617))
            ThreePointArc((-6.543582771, -18.995385617), (-8.3226798967, -21.2305883327), (-7.0681497455, -23.7971954048))
            add(Edge.make_bspline(
                [(-15.5472261831, -45.3110821545), (-15.8703453925, -45.3460609404), (-16.5925502413, -45.4242421443), (-18.2019609716, -44.7682278739), (-18.6423596594, -43.6156878212), (-18.5114596977, -41.4237139716), (-18.5002843821, -40.0095745093), (-18.0231772007, -38.9501973679), (-16.9764708794, -38.5196883122), (-16.0859584077, -38.4709146678), (-16.1200211276, -37.929966565), (-16.0651553936, -37.0935073779), (-16.8045617862, -36.3279019251), (-17.1568165365, -35.5377745532), (-17.3345409508, -34.4611033661), (-17.5379581285, -32.5397567554), (-14.296779687, -30.320727407), (-11.6802666994, -27.9922089237), (-9.8369849766, -25.8245066524), (-8.0477641609, -24.8570119304), (-7.3755305759, -24.129741842), (-7.0681497455, -23.7971954048)],
                knots=[0, 0, 0, 0, 0.0446311862, 0.0997553167, 0.1467127031, 0.2111960344, 0.2639375779, 0.308632107, 0.3548416707, 0.3927694061, 0.4207921121, 0.4601330872, 0.5042175746, 0.5444526815, 0.5896049805, 0.6459260469, 0.7297659419, 0.8139781306, 0.8870257307, 0.9483421753, 1, 1, 1, 1], degree=3))
            Line((-15.5472261831, -45.3110821545), (6.718324963, -45.3110821545))
        make_face()
    revolve(axis=Axis((6.718324963, 10.6407124549, 0), (0, -1, 0)))

    # F3 (on offset) → F4 (cut)
    with BuildSketch(Plane.XY.offset(56.642)):
        with BuildLine():
            Line((15.2690839022, 52.118472755), (12.6903057098, 56.0545027256))
            add(Edge.make_bspline(
                [(12.6903057098, 56.0545027256), (12.3563456877, 55.2782321408), (11.6074102376, 53.5373753879), (9.7188068518, 49.8031045346), (7.2834528934, 46.0603885738), (3.5911323218, 43.2884429742), (7.2179094634, 43.7522608499), (10.8880329901, 45.7114647464), (13.4836523629, 49.5097828882), (14.7119863907, 51.3044988774), (15.2690839022, 52.118472755)],
                knots=[0, 0, 0, 0, 0.108388648, 0.2430713124, 0.3920280691, 0.5063981299, 0.6010879346, 0.7416369519, 0.8828222553, 1, 1, 1, 1], degree=3))
        make_face()
    extrude(amount=-F4_DEPTH, mode=Mode.SUBTRACT)


solid = f1.part
